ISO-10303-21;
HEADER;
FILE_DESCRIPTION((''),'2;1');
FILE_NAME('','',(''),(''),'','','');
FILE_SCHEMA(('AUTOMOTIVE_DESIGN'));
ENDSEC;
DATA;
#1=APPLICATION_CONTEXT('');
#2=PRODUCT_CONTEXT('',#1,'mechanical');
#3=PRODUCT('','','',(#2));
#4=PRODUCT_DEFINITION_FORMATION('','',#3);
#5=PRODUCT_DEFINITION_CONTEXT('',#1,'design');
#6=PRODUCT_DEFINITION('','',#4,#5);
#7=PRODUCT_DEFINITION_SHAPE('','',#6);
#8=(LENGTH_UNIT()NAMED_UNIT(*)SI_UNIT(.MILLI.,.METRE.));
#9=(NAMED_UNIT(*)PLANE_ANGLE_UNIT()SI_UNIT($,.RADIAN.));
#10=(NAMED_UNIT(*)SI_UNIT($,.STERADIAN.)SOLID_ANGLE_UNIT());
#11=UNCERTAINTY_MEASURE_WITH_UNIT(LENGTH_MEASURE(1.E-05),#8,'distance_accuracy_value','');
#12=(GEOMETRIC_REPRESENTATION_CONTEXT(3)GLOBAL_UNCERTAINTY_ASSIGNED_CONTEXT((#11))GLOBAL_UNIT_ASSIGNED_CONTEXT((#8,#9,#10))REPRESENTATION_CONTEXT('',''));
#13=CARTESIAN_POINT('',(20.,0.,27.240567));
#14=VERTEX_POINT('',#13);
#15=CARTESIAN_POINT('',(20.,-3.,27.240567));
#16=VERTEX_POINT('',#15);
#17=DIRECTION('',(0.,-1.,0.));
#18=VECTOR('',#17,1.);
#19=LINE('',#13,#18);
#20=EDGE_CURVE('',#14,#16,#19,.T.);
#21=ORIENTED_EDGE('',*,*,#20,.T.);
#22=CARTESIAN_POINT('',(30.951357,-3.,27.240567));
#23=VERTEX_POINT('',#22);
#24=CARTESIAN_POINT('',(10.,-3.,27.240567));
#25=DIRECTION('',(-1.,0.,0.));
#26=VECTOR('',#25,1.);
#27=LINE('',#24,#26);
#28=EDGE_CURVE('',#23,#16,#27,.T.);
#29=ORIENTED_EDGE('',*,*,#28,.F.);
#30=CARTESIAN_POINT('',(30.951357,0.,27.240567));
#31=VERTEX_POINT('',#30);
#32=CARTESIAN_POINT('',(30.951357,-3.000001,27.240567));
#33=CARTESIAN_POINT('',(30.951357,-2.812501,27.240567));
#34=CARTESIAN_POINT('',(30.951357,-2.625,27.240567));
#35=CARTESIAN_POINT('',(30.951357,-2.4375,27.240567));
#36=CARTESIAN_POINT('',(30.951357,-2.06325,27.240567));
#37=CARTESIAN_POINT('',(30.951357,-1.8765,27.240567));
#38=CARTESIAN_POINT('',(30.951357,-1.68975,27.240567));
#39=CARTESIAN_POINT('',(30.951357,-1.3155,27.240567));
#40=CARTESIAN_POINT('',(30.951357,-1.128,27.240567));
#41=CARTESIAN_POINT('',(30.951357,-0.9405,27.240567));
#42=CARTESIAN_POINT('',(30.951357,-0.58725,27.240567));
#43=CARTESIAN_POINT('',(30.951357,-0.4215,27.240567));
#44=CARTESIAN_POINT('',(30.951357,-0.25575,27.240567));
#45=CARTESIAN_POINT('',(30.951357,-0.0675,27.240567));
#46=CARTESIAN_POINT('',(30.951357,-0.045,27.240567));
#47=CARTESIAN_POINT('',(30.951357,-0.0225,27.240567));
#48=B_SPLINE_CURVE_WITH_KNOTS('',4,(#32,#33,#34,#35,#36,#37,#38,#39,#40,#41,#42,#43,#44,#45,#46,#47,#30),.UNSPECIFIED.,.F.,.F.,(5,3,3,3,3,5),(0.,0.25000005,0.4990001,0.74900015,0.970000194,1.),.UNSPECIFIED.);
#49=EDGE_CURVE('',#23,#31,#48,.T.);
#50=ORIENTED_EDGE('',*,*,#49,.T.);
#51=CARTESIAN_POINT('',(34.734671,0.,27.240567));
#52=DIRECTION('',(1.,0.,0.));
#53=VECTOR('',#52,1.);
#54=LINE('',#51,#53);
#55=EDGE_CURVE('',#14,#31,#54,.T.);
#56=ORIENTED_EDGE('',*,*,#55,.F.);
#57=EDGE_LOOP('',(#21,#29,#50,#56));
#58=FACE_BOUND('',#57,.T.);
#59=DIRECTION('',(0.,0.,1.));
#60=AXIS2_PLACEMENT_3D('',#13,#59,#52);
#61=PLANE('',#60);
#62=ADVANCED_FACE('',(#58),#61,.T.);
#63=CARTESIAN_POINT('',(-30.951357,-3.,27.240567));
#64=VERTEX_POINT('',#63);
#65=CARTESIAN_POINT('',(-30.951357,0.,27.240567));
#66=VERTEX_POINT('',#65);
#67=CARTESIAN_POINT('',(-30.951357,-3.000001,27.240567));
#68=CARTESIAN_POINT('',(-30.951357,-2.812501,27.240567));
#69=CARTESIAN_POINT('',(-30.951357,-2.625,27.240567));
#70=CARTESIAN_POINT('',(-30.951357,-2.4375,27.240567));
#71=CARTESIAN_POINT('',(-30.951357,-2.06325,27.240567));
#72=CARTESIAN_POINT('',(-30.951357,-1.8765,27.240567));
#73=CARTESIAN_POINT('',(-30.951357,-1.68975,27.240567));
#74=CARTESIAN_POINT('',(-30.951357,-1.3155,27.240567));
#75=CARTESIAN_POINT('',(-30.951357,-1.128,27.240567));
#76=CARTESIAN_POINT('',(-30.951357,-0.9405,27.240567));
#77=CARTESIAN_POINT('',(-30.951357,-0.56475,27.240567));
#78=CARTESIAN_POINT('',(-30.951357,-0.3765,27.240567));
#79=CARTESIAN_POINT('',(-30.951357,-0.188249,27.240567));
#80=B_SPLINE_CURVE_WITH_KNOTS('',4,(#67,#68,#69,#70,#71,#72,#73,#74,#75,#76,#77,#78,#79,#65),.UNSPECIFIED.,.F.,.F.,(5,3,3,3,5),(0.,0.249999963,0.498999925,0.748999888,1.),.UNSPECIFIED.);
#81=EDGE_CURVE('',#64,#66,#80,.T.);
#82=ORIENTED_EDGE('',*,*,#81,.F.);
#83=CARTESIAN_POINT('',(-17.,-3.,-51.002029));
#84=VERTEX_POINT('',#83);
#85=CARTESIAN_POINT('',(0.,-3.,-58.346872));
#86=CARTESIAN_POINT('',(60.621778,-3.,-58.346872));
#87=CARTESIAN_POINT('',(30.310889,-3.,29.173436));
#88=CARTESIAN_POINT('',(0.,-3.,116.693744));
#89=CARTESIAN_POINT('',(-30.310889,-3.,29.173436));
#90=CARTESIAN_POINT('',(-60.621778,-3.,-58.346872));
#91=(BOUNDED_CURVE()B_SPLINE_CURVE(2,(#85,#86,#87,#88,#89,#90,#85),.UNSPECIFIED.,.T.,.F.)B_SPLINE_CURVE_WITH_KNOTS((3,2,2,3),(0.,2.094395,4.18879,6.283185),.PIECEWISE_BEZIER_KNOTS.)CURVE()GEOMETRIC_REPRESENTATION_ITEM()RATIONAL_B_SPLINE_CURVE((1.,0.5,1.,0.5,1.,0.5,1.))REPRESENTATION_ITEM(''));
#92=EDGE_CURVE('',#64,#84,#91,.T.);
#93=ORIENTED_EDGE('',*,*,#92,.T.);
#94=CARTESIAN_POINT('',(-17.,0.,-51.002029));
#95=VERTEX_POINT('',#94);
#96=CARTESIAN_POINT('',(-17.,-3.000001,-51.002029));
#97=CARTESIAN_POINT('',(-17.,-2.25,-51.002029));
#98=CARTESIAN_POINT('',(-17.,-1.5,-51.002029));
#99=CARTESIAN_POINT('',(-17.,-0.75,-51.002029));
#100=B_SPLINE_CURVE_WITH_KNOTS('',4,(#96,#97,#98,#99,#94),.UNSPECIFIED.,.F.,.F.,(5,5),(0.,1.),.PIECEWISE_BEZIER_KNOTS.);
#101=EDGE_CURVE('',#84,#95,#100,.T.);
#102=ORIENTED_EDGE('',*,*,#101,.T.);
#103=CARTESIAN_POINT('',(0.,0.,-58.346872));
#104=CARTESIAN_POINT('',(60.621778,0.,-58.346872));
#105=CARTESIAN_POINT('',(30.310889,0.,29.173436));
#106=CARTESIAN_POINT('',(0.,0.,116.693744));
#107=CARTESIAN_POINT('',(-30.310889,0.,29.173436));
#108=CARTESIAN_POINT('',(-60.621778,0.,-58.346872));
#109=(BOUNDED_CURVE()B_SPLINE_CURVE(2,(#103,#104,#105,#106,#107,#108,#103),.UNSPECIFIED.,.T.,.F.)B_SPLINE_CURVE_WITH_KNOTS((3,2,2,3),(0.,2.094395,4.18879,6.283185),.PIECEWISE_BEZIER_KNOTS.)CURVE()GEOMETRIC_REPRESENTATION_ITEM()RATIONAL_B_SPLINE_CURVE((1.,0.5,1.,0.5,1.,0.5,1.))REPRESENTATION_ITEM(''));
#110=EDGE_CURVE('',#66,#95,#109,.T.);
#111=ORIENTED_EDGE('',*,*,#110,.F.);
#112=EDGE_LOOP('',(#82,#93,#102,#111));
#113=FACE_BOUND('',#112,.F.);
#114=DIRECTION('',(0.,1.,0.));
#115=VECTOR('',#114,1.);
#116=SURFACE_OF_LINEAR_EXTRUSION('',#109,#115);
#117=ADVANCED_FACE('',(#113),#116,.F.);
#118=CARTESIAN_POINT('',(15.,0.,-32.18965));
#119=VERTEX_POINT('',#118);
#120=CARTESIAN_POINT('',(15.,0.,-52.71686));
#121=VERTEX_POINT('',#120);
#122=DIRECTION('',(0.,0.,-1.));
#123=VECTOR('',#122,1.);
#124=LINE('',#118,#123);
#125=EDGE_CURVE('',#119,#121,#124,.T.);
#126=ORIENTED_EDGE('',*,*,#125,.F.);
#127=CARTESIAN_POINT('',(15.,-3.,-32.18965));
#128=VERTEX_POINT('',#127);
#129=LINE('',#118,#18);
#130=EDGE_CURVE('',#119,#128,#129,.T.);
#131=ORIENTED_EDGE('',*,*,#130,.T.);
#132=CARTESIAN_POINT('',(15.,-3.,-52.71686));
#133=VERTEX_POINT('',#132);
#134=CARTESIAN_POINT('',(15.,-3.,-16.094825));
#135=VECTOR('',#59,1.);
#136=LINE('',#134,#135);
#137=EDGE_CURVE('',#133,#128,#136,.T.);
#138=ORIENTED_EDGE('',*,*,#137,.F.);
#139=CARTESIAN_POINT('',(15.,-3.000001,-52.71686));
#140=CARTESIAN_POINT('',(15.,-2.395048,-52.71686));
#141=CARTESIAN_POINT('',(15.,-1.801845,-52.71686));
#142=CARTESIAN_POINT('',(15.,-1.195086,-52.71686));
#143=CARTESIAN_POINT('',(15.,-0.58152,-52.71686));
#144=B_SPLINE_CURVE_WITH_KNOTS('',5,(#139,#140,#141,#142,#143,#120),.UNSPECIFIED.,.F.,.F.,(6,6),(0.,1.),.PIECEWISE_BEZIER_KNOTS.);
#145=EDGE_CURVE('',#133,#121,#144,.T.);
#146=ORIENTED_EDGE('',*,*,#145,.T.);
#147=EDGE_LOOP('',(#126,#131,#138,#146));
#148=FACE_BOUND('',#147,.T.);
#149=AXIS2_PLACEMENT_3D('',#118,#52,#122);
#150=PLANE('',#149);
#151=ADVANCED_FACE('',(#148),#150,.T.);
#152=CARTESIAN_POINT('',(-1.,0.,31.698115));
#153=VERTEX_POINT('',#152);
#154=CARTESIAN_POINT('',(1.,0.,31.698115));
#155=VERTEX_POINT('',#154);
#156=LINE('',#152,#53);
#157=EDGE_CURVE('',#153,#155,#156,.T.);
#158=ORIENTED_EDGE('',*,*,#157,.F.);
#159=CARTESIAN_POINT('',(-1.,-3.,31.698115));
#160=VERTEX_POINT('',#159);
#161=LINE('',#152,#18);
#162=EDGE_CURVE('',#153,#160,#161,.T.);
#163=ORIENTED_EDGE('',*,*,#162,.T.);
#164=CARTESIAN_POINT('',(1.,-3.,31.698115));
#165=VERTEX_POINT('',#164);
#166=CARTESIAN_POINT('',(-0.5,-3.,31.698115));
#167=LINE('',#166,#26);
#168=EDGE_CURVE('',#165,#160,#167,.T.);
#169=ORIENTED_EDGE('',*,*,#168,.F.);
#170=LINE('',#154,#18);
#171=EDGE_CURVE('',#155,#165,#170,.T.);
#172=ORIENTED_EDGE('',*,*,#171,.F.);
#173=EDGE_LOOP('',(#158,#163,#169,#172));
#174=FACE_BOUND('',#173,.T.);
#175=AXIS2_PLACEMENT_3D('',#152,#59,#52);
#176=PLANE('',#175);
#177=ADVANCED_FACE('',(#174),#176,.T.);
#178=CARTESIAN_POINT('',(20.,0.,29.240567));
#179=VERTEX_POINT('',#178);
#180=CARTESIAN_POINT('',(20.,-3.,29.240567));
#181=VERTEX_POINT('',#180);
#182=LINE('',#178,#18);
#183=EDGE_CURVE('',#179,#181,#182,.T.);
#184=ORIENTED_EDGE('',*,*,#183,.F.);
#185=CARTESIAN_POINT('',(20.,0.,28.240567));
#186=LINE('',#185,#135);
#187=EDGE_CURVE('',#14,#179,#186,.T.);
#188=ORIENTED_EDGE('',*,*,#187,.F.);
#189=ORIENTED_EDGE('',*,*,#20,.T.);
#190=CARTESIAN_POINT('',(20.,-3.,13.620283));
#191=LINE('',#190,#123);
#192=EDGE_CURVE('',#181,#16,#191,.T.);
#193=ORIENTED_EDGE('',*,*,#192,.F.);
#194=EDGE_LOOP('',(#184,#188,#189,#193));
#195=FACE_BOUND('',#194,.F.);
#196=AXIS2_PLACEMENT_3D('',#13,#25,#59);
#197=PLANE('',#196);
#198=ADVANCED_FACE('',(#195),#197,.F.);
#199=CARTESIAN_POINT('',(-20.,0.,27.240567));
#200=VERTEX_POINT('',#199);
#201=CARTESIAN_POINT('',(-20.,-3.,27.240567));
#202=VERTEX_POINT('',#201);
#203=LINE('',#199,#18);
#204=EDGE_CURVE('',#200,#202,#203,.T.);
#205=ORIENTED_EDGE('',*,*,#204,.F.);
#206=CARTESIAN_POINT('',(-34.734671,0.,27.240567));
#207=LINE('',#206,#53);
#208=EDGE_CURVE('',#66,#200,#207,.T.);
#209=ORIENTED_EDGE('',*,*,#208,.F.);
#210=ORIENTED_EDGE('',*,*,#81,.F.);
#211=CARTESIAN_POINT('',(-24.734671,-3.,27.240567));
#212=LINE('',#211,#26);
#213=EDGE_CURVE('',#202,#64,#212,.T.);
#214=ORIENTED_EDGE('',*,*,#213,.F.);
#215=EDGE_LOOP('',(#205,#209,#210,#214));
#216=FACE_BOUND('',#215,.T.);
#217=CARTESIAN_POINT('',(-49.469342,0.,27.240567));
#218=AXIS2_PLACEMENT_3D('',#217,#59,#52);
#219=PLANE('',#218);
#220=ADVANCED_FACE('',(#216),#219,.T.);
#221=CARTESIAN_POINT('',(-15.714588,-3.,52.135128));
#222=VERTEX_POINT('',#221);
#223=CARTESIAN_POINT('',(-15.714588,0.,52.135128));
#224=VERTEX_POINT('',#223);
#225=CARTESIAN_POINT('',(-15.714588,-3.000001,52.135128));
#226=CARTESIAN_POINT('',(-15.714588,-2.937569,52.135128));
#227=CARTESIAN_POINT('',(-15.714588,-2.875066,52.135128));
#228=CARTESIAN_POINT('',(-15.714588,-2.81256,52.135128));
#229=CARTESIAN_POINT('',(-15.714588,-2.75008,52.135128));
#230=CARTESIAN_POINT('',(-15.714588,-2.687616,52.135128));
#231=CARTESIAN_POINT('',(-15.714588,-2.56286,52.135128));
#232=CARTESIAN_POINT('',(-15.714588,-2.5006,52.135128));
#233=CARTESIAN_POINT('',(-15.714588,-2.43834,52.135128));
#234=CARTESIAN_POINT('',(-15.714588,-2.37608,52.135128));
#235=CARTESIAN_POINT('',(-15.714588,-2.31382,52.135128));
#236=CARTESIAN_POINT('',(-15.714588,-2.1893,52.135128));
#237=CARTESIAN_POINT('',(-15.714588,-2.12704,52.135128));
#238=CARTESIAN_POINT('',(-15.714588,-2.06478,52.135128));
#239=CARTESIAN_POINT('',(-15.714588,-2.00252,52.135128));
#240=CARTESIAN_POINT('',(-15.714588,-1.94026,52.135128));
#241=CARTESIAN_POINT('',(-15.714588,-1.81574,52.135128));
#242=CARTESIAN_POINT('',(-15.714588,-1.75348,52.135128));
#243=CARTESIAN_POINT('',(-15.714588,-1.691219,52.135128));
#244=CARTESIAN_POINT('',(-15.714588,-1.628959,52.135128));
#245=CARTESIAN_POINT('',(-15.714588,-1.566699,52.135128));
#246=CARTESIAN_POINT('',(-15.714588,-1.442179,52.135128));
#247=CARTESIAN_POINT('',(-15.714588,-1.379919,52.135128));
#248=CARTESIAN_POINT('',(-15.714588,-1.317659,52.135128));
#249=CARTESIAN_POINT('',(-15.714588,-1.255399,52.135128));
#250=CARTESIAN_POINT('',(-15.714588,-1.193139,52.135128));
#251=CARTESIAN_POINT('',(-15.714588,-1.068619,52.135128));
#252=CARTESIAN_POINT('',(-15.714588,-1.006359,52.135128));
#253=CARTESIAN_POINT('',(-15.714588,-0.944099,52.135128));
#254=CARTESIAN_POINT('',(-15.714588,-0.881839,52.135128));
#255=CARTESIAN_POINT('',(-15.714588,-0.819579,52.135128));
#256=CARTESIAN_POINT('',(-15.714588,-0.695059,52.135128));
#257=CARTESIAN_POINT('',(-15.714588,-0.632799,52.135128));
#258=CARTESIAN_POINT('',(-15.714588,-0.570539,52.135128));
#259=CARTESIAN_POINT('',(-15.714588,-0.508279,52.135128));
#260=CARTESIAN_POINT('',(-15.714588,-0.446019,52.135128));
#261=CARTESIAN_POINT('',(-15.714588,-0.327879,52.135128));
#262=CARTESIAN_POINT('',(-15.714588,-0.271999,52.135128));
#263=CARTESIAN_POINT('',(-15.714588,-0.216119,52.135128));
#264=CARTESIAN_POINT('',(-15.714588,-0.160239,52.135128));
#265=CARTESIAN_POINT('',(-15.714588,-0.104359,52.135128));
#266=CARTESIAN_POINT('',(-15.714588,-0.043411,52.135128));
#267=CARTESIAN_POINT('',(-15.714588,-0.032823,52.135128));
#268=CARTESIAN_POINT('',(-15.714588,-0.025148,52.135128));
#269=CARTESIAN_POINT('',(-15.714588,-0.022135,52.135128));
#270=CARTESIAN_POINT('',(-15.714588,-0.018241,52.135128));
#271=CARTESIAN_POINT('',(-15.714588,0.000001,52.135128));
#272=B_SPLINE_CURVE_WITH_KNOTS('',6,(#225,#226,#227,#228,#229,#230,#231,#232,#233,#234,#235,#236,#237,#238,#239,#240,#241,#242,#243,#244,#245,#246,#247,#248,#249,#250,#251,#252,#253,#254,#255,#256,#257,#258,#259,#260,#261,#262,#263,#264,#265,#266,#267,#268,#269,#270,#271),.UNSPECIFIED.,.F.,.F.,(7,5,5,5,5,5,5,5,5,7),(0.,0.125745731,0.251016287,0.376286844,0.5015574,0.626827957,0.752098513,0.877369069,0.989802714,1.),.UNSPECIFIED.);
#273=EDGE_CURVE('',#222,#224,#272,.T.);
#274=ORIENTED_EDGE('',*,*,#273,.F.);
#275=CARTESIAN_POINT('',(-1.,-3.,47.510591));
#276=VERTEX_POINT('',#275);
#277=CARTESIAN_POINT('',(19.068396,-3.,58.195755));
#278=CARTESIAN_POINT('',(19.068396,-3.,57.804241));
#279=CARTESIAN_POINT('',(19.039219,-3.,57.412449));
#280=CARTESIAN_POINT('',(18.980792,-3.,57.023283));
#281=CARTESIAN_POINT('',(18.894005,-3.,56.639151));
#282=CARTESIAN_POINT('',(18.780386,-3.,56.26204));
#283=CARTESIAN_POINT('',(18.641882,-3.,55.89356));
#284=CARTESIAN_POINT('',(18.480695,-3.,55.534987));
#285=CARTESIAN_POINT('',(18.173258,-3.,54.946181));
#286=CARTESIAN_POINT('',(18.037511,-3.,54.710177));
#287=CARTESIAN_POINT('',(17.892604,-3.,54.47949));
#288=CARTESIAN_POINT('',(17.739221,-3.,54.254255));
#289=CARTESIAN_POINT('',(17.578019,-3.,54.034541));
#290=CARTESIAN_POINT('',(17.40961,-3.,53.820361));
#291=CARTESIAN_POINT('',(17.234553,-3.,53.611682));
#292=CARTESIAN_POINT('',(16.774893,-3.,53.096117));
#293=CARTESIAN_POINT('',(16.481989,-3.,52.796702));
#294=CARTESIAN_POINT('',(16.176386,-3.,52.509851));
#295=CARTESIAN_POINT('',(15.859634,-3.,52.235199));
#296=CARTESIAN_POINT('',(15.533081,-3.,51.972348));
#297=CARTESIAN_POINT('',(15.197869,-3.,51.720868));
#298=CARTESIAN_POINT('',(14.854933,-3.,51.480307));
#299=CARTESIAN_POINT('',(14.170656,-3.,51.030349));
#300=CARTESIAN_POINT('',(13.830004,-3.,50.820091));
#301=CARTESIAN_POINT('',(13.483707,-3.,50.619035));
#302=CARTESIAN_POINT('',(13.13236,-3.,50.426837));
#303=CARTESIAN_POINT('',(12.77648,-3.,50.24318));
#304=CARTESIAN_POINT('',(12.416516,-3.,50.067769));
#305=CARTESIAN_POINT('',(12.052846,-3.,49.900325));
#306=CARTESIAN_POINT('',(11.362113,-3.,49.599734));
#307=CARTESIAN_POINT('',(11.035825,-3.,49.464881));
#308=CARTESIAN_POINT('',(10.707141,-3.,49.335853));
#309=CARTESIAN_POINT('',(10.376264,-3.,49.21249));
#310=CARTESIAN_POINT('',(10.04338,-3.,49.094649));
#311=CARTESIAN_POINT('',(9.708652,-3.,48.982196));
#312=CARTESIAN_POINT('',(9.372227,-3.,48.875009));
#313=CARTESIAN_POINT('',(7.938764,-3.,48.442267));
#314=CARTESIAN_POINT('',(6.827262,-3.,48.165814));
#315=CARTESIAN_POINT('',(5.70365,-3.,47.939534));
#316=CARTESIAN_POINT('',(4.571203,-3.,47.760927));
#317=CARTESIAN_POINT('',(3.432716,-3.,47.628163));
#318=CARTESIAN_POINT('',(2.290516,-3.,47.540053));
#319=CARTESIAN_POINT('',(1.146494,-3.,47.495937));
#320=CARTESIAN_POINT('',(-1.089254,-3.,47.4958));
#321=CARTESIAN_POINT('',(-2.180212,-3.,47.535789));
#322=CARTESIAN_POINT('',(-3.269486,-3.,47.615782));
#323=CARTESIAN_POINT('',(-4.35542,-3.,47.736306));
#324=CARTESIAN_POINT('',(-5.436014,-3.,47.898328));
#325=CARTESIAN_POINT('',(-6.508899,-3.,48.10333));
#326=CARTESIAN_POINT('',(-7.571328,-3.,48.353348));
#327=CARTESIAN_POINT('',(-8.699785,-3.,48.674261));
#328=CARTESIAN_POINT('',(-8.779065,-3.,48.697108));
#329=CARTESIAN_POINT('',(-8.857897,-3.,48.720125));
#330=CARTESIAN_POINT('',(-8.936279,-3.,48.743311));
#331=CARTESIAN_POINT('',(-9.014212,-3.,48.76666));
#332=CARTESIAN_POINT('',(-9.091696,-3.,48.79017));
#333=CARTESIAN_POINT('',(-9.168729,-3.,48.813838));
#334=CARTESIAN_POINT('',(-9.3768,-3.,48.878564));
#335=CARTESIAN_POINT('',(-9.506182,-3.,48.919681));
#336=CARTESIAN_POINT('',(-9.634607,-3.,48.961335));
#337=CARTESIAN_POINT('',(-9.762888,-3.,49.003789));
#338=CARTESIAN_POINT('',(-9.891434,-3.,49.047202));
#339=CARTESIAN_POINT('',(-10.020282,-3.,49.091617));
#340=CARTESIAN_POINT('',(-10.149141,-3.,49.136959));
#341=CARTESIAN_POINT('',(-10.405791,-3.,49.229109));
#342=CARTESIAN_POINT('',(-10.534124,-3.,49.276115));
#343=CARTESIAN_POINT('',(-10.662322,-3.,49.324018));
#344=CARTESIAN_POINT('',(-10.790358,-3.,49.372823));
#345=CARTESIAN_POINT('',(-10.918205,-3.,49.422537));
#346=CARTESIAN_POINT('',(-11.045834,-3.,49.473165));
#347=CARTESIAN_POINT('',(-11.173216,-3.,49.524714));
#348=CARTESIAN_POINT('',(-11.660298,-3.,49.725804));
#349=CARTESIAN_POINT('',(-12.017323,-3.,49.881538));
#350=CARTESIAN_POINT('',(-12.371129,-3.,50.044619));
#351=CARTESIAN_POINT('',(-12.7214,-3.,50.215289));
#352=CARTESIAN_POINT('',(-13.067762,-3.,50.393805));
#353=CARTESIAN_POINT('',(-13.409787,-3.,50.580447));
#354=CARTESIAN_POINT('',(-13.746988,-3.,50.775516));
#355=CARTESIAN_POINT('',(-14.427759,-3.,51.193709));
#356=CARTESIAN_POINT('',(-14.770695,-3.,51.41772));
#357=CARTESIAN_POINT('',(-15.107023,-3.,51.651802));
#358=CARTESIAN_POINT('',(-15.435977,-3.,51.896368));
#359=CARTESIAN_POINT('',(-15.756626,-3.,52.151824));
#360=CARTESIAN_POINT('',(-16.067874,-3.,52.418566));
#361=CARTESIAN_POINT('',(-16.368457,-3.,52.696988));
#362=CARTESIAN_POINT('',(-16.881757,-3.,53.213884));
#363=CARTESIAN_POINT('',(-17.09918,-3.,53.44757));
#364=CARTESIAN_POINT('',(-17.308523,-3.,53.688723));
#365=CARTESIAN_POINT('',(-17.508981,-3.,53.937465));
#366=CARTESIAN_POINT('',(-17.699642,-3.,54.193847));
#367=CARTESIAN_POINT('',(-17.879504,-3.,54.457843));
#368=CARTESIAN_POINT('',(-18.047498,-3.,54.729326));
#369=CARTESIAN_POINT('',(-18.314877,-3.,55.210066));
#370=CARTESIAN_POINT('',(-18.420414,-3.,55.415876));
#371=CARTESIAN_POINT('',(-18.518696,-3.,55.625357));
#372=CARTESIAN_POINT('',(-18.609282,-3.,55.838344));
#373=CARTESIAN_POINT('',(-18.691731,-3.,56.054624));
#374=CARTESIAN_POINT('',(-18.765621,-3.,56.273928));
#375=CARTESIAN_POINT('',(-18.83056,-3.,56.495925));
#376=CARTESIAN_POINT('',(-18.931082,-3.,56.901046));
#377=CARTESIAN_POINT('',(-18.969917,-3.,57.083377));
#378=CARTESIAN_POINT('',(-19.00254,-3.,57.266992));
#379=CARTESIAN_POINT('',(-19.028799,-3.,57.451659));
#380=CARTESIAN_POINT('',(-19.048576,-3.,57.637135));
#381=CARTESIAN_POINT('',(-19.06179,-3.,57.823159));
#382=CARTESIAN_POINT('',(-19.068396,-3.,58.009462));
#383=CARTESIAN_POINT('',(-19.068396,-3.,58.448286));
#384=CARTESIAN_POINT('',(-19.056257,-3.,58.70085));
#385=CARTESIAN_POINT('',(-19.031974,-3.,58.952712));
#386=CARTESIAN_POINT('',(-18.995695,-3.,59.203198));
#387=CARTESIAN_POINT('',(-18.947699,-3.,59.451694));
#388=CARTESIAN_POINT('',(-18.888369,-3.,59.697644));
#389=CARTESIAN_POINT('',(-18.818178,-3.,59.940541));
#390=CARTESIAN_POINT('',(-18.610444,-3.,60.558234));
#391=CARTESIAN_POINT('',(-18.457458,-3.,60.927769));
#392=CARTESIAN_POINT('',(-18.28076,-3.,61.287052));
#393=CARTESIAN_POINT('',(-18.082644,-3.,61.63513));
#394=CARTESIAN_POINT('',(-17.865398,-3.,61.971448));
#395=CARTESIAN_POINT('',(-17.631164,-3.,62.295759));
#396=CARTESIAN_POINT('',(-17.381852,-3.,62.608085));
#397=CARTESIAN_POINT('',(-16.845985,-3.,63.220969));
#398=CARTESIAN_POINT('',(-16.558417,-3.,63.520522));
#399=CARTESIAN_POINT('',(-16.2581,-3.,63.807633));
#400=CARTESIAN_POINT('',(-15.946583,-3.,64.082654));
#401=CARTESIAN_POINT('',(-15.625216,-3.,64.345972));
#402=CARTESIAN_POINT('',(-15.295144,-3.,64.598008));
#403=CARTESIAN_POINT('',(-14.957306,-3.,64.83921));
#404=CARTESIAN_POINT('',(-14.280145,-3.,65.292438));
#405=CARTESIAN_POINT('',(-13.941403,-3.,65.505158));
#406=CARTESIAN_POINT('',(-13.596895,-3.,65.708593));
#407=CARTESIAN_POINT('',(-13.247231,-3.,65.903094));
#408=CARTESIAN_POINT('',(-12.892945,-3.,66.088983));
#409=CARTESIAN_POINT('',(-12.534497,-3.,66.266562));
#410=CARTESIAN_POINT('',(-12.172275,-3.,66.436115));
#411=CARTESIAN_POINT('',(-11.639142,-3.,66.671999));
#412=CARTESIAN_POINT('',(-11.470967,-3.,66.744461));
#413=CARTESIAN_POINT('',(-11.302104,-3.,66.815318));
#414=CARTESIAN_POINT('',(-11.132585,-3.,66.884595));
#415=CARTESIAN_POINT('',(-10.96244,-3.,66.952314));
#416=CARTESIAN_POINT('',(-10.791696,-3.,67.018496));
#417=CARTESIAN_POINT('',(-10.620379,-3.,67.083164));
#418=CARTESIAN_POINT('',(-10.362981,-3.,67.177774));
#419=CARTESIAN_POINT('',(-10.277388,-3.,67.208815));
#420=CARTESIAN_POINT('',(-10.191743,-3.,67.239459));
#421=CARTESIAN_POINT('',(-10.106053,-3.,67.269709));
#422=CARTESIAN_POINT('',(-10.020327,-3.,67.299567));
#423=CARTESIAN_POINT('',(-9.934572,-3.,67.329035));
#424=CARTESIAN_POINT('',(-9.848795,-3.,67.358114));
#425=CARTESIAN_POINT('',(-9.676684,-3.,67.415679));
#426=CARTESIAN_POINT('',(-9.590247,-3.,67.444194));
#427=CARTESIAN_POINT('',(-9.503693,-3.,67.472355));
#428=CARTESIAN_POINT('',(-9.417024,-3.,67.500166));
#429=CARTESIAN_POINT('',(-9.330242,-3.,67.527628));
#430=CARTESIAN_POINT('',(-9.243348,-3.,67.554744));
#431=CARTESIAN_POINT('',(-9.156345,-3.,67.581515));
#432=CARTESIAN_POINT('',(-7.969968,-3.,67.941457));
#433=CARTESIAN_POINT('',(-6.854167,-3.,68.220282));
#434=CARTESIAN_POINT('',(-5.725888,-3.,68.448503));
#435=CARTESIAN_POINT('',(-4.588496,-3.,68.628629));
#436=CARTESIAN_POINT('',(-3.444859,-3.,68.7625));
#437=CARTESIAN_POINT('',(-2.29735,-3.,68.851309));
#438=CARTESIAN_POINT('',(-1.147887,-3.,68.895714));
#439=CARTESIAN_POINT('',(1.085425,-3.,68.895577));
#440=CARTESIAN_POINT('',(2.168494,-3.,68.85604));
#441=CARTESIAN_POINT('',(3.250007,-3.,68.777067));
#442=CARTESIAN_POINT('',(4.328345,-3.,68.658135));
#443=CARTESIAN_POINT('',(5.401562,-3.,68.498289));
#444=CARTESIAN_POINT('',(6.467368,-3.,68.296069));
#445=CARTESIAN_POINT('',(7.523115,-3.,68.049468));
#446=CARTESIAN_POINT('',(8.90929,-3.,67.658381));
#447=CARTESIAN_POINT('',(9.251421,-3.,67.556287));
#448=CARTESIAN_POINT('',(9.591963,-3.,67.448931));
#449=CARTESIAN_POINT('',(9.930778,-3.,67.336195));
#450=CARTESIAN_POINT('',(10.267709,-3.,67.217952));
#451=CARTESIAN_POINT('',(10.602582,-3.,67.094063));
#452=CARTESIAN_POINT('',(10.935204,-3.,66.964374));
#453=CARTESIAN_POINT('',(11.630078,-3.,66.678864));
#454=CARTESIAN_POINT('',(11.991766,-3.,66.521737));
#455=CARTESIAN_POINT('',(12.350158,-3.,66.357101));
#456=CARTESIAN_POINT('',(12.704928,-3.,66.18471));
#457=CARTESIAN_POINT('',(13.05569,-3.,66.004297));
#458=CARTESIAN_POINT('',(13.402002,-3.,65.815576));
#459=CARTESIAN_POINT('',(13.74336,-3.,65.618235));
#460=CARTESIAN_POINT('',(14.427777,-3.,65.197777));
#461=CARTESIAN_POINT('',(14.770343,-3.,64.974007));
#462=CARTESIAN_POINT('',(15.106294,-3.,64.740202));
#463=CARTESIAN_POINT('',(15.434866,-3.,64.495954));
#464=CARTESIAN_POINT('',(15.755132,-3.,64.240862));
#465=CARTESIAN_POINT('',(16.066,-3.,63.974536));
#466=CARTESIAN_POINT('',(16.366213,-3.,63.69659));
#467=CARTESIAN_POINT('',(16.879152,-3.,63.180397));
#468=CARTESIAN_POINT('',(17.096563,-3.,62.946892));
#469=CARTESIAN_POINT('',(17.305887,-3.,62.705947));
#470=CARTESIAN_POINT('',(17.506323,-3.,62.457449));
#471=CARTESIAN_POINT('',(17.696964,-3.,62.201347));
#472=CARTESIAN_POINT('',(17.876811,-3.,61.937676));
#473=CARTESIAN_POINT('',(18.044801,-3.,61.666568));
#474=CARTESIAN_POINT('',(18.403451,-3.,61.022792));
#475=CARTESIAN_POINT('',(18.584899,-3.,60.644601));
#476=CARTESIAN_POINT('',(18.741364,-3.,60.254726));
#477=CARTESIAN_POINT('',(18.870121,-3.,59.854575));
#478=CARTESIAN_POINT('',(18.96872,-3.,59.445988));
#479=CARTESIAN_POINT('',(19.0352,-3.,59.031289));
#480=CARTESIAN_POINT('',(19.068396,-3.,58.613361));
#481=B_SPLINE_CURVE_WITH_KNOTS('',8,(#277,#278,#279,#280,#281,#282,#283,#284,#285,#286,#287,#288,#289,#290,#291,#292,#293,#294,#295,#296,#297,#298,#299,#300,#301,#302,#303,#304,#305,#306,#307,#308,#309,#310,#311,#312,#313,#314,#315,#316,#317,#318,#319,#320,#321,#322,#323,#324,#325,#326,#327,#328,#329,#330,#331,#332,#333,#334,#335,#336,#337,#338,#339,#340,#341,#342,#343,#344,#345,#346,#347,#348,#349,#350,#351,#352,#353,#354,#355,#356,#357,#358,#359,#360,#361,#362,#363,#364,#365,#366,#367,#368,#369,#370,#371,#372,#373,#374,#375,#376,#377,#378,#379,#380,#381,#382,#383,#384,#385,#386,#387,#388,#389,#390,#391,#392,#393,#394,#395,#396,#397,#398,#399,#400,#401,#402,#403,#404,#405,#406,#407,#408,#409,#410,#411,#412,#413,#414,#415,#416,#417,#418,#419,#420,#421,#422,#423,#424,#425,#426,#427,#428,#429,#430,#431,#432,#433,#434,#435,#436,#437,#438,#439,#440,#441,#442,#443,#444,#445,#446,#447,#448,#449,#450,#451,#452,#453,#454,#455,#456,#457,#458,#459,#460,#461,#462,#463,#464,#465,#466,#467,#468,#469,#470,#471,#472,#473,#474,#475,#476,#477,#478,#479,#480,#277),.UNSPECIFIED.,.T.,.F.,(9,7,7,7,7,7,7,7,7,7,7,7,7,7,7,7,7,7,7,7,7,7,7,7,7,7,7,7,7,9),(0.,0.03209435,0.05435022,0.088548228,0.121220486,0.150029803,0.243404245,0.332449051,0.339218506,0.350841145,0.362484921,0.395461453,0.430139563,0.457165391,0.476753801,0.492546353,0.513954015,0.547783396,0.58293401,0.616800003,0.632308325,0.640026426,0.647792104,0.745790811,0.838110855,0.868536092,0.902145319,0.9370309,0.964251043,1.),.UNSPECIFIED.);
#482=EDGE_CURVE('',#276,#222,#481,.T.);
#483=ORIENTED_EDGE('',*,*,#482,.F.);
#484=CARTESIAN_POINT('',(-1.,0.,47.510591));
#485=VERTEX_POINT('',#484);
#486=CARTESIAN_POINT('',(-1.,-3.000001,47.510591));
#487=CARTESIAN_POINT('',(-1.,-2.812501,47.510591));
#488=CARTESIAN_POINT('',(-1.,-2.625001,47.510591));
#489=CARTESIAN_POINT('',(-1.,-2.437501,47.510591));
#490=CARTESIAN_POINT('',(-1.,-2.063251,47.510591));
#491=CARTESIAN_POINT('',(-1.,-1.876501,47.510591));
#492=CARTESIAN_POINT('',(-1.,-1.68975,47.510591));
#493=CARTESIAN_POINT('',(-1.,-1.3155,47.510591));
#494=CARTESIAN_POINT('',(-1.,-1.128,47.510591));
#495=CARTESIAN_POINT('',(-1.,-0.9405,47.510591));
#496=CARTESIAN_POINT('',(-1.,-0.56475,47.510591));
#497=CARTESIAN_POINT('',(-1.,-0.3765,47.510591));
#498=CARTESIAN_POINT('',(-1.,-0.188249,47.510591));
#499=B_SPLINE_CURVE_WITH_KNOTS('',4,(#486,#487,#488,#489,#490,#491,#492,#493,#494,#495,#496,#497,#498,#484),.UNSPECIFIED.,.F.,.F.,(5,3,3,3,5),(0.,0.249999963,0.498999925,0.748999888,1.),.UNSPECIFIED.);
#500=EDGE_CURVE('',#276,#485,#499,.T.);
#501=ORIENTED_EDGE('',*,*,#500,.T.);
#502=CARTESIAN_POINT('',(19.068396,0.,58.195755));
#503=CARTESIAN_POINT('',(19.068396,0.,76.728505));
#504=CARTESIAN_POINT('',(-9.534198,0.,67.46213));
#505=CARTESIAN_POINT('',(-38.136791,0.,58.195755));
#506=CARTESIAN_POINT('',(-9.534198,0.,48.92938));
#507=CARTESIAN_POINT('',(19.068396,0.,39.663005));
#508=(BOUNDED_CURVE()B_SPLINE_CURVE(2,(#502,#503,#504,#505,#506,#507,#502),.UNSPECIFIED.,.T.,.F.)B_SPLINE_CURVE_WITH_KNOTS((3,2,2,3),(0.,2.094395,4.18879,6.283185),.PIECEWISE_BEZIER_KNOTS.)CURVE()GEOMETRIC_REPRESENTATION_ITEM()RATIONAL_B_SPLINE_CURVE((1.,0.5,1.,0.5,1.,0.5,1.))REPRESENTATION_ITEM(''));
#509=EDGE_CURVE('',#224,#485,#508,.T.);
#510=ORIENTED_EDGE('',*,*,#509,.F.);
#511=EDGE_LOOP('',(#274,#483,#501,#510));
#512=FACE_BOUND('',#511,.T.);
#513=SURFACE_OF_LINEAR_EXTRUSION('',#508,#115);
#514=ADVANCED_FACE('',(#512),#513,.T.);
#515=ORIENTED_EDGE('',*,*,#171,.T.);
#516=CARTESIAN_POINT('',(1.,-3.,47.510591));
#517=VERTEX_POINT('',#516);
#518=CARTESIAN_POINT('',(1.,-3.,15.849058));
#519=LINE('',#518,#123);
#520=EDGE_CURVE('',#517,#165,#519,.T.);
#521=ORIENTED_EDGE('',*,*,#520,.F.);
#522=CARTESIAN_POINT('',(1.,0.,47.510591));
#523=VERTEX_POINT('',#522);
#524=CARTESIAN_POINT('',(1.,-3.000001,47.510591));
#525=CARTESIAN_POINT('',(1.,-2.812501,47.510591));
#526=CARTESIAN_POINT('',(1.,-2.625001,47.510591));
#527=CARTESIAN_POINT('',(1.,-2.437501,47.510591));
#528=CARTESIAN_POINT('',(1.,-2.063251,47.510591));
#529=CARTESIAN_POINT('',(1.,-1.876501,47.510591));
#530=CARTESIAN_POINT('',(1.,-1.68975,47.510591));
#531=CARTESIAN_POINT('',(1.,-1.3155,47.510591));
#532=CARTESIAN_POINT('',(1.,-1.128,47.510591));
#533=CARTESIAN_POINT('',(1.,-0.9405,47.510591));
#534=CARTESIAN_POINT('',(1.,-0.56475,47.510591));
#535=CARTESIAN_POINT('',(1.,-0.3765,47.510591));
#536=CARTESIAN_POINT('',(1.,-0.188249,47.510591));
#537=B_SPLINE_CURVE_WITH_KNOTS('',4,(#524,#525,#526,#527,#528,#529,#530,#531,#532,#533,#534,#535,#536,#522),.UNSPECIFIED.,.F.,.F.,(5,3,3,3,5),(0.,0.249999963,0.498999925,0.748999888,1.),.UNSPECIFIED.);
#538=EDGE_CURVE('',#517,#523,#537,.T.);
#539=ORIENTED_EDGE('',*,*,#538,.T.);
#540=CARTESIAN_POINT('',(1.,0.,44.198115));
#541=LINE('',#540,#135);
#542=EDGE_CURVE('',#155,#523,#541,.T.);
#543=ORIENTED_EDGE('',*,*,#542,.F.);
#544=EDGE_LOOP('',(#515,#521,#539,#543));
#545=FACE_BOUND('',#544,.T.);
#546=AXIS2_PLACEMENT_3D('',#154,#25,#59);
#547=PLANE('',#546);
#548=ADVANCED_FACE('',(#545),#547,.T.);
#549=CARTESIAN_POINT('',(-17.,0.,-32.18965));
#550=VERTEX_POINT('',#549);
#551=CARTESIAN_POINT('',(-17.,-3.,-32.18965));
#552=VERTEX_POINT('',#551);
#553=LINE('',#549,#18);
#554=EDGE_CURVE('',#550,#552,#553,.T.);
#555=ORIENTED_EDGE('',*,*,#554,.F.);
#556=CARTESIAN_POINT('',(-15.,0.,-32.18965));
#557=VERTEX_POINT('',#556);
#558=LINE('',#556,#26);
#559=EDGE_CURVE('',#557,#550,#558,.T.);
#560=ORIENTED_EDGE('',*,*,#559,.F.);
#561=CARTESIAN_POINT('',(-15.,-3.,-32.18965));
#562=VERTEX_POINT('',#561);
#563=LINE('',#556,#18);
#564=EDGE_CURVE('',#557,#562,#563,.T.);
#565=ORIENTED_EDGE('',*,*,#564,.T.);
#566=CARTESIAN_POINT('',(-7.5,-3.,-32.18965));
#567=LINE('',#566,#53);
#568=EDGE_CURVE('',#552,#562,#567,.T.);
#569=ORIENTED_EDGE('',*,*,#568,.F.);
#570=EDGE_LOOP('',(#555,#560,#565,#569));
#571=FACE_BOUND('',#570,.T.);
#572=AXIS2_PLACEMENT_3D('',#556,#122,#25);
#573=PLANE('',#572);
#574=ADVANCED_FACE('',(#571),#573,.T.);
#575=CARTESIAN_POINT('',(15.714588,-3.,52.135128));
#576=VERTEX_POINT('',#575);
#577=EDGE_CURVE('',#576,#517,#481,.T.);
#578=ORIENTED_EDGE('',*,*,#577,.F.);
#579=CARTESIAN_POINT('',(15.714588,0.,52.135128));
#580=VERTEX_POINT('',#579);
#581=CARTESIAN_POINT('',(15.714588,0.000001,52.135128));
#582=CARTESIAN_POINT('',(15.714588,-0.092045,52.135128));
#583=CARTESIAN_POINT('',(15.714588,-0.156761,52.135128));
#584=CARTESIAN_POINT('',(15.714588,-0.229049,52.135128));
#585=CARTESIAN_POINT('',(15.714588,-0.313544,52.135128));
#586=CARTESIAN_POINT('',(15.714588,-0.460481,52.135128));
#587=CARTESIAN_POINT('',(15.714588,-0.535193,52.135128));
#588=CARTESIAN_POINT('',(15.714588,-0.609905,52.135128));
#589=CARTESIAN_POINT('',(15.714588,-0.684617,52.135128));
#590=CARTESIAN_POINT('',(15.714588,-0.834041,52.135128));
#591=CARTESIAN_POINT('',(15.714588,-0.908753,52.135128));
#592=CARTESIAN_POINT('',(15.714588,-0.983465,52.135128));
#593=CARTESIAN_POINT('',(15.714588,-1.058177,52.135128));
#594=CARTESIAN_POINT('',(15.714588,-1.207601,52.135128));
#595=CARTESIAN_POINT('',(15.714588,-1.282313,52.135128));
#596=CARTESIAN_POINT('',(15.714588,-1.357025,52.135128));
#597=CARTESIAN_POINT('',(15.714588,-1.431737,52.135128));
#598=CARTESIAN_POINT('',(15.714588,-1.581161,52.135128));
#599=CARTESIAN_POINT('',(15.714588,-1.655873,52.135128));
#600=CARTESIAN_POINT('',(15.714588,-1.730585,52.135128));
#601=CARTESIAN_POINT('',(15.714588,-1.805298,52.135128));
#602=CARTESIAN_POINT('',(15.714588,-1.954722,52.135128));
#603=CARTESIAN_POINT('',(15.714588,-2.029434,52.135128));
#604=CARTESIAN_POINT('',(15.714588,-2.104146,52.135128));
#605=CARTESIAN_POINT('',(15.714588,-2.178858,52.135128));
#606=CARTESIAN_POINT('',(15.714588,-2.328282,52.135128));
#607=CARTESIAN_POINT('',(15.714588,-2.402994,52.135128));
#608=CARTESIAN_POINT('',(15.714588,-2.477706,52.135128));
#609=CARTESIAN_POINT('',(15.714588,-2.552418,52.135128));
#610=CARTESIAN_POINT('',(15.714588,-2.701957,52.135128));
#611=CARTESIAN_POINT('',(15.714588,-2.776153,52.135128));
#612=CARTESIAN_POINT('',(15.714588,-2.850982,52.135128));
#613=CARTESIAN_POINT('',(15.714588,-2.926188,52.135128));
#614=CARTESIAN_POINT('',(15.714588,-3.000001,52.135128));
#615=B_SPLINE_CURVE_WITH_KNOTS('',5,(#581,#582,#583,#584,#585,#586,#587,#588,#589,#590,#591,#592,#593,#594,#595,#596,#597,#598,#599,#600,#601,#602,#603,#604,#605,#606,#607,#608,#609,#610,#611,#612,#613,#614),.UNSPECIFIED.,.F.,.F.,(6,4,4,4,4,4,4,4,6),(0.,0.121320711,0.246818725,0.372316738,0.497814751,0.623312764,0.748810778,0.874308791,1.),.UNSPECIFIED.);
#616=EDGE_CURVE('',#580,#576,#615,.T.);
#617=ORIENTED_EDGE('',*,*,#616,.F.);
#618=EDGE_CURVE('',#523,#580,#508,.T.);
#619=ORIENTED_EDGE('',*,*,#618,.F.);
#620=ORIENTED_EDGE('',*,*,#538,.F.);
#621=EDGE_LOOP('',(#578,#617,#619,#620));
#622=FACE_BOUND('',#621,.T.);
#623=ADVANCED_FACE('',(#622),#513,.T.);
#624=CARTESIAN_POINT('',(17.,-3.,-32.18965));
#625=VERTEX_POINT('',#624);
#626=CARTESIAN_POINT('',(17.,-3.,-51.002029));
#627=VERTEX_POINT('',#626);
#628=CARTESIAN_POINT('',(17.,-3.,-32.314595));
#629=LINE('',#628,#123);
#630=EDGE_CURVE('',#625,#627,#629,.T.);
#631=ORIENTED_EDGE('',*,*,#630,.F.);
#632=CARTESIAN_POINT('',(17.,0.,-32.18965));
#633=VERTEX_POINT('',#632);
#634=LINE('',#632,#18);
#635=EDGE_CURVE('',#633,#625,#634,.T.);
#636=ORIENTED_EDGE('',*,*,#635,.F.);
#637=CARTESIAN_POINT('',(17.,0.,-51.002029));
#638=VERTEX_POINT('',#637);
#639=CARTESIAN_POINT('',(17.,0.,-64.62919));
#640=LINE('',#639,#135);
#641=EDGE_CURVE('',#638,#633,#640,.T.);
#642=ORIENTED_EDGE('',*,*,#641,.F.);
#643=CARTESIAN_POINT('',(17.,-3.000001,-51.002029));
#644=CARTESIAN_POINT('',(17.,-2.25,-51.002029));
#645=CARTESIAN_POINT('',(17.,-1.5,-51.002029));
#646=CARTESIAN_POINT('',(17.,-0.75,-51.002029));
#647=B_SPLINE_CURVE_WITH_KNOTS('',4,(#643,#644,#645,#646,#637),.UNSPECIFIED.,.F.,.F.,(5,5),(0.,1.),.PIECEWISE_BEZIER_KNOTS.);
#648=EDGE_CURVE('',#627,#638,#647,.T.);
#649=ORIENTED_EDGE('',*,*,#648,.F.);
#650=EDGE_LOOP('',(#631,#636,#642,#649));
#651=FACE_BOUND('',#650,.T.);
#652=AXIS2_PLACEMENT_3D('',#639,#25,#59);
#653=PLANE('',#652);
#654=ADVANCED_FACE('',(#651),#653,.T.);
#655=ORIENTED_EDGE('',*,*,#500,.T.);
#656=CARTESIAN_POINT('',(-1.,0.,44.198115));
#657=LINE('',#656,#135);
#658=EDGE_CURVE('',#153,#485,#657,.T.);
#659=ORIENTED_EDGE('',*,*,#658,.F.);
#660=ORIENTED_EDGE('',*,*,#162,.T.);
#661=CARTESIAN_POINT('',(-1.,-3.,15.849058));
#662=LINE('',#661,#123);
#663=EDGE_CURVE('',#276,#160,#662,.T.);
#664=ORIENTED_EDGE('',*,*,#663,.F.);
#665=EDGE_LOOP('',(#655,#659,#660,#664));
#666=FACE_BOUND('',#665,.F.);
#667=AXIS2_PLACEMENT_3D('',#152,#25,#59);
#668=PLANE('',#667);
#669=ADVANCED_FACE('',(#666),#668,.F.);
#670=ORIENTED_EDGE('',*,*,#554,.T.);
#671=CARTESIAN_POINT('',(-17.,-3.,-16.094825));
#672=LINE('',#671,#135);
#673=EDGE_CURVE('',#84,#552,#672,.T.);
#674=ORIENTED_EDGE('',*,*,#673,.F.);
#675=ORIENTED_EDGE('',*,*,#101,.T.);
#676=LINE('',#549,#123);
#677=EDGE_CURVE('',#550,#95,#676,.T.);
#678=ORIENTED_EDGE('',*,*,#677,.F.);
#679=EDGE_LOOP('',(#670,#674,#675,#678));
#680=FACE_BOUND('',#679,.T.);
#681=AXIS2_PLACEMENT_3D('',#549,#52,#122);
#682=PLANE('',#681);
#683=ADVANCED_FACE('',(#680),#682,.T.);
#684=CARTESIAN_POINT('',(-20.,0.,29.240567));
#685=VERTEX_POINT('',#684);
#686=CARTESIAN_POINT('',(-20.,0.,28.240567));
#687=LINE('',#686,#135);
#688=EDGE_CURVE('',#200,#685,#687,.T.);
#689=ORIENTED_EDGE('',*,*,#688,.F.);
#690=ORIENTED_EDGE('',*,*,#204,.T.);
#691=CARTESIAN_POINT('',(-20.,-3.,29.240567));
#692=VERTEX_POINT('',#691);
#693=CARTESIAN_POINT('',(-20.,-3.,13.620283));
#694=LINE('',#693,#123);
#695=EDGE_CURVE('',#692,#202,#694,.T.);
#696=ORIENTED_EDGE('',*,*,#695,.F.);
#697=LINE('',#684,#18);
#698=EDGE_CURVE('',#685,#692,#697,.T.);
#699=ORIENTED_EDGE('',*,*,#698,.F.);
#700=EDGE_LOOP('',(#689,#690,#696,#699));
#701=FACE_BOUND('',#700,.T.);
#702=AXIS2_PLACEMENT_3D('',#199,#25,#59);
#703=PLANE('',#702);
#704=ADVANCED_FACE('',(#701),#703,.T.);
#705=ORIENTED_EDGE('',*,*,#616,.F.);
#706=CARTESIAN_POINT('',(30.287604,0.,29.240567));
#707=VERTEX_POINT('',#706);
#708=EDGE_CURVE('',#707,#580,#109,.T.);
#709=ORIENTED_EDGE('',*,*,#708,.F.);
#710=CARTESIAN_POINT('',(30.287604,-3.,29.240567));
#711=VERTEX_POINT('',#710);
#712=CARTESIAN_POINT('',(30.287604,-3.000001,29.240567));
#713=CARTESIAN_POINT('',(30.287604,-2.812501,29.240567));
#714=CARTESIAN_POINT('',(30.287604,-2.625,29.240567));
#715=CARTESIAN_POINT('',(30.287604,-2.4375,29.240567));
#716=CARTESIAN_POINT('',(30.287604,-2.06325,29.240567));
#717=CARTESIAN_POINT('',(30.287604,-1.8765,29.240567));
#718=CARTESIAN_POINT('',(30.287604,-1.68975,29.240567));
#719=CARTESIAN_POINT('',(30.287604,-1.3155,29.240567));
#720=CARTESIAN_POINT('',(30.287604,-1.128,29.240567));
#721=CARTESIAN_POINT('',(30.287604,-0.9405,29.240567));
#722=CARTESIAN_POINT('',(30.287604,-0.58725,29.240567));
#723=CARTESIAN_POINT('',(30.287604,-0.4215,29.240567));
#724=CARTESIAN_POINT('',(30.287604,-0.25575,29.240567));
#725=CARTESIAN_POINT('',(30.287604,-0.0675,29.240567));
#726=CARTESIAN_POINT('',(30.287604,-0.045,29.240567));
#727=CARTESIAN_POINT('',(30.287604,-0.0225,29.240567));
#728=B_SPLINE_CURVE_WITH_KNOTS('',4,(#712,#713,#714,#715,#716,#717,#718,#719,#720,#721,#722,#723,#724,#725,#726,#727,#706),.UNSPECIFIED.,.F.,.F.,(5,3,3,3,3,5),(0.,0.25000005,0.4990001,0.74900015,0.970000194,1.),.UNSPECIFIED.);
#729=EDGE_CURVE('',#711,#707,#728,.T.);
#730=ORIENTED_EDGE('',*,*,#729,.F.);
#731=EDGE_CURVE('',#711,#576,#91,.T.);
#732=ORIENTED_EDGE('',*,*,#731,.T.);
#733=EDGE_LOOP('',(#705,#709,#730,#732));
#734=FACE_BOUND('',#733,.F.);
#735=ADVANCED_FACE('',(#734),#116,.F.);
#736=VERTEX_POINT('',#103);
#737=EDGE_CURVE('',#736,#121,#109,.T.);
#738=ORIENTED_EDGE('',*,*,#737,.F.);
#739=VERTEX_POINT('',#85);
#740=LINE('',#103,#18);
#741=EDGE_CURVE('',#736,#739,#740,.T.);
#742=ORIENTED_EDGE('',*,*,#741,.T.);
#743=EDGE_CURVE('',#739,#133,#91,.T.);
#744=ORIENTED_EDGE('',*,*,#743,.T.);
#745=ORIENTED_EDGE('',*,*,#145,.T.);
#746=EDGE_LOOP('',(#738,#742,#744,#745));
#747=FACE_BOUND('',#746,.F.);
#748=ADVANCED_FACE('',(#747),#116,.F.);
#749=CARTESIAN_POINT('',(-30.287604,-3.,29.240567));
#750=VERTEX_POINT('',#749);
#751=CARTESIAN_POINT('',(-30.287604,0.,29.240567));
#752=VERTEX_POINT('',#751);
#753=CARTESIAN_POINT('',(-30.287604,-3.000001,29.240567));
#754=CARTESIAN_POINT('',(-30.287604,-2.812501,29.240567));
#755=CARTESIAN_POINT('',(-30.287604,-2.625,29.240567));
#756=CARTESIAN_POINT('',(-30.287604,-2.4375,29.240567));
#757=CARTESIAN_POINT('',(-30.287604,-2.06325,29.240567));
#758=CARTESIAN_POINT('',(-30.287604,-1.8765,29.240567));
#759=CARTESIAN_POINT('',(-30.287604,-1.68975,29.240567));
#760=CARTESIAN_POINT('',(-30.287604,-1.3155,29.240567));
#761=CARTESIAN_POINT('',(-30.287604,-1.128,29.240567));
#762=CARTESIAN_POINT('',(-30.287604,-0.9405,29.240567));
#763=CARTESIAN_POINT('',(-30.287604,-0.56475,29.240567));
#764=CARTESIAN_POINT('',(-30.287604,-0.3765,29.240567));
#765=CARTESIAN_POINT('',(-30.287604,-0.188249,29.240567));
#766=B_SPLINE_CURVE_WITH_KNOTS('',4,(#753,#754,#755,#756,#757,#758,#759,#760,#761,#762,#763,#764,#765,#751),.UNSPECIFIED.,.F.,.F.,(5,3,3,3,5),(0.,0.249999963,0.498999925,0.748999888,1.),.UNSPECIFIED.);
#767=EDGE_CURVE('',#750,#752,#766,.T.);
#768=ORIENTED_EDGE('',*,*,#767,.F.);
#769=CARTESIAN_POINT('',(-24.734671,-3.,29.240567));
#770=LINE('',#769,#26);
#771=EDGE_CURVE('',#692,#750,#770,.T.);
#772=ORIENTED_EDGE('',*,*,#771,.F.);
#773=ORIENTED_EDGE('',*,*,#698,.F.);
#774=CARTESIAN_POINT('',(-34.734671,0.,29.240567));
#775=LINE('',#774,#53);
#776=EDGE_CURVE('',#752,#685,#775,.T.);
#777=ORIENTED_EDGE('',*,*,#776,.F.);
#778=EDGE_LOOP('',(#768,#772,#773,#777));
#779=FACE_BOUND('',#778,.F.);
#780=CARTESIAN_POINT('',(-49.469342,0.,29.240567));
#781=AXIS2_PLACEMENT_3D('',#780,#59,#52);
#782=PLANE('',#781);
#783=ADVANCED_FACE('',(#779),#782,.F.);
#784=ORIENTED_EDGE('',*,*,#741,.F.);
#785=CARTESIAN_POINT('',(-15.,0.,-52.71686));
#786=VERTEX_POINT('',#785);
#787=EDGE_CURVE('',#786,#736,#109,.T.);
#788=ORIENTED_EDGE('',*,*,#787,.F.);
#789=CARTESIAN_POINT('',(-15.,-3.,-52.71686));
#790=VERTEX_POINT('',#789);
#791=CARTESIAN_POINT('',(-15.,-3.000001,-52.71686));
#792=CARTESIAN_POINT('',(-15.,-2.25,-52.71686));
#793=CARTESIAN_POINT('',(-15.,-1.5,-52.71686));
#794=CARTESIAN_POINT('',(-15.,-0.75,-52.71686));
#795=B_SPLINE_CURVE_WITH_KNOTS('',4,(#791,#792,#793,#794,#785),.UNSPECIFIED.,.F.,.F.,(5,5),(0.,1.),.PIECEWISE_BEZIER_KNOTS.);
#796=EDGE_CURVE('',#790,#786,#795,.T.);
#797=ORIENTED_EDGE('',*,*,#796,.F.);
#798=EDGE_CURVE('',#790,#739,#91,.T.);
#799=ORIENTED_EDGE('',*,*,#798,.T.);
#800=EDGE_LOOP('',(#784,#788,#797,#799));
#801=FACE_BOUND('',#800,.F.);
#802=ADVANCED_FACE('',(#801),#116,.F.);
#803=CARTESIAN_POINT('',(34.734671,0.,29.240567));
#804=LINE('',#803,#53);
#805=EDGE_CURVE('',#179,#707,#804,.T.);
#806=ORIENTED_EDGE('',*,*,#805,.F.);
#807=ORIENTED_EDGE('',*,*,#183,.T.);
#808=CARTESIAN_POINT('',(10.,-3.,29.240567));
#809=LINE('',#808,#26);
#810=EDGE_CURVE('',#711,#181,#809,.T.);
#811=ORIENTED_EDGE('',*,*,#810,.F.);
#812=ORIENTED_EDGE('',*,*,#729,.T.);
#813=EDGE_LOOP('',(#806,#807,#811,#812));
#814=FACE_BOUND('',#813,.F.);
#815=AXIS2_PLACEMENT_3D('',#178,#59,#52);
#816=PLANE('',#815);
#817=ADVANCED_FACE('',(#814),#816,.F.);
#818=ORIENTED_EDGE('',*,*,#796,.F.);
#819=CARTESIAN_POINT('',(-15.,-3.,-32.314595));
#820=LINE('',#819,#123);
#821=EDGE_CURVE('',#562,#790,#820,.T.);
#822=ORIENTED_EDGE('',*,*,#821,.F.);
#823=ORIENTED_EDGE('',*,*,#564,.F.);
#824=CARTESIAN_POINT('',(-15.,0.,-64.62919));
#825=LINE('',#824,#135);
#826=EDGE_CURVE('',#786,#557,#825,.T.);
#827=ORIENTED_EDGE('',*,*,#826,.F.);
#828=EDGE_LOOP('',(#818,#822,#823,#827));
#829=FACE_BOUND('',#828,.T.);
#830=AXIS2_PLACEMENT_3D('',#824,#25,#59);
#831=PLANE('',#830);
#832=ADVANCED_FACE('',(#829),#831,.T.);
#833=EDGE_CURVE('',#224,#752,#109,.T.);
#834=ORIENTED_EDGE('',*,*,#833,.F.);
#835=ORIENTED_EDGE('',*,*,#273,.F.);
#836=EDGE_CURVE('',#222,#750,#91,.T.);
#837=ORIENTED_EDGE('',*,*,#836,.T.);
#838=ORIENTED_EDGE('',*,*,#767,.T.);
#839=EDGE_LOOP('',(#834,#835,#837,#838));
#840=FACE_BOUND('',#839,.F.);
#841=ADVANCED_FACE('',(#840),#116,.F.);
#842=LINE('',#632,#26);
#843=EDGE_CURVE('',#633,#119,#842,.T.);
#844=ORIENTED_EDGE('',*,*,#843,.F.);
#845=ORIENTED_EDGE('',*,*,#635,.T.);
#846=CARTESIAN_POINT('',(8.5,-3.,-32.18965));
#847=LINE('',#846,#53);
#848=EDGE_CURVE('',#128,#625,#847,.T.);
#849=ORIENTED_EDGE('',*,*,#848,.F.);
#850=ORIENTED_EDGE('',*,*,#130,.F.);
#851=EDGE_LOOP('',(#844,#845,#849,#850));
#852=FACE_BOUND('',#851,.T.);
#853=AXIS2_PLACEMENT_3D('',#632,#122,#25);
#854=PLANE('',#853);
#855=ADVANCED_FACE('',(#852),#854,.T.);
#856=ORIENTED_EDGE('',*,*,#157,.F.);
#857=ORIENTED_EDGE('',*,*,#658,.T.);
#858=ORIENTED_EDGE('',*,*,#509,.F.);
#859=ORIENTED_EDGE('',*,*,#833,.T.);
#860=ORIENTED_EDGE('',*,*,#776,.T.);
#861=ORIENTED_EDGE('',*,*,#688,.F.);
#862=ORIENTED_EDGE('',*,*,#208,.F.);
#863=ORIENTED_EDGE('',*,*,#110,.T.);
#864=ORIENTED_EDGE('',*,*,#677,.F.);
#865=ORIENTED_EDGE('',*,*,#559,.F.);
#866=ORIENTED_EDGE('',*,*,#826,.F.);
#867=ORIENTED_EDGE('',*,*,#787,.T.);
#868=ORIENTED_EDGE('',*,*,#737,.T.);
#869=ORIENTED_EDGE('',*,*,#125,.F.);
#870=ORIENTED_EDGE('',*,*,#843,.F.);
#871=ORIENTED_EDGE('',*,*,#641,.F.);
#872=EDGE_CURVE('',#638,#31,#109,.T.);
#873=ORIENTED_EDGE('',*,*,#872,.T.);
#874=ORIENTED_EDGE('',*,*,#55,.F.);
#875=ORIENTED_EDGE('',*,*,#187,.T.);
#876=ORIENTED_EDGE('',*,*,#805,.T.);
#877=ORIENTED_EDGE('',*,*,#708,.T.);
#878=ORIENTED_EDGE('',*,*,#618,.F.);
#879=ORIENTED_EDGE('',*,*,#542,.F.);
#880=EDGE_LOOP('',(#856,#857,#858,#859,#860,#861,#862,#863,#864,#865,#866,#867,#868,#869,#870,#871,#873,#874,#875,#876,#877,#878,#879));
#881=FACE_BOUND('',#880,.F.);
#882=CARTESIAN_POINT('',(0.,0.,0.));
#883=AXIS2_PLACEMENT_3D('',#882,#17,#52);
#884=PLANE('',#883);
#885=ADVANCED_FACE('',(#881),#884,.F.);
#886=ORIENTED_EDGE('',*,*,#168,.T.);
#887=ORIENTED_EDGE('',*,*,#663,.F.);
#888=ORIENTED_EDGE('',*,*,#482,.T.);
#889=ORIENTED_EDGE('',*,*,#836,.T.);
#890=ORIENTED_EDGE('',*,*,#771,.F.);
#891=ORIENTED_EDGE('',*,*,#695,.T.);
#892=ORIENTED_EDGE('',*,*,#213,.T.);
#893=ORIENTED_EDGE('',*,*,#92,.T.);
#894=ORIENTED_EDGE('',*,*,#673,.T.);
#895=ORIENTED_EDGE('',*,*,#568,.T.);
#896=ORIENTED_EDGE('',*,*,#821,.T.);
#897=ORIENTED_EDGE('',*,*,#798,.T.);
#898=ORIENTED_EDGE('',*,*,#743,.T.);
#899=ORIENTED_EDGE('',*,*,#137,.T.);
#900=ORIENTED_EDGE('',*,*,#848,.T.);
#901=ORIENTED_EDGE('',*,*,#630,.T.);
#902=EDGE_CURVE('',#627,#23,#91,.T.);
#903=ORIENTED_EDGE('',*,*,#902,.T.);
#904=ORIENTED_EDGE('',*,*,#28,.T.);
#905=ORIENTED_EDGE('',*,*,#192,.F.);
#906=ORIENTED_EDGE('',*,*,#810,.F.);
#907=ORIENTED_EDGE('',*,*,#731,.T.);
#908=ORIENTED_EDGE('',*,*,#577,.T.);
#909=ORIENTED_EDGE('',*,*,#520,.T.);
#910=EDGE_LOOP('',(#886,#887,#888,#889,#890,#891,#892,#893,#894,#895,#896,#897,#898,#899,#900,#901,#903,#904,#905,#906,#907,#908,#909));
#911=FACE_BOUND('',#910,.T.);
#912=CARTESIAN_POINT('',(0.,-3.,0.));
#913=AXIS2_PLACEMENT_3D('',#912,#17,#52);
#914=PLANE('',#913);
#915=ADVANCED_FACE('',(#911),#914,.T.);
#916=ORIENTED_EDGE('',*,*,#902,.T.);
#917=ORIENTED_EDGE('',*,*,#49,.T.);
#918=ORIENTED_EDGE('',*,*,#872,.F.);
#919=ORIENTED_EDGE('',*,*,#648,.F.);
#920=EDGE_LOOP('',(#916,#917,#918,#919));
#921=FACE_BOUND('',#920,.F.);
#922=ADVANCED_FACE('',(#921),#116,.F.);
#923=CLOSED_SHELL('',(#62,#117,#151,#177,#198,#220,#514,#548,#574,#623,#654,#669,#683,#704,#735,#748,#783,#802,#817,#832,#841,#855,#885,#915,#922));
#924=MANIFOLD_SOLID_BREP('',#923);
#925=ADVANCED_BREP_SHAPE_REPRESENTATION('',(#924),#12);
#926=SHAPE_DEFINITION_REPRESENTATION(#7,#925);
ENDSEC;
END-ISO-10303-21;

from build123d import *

# Parameters (mm, degrees)
F1_DEPTH = 3
F2_W     = 29.469342
F2_H     = 2
F3_DEPTH = 25
F5_DEPTH = 10
F7_DEPTH = 25
F8_W     = 1
F8_H     = 25
F9_DEPTH = 25


with BuildPart() as f1:
    # F0 (on Front) → F1 (new body)
    with BuildSketch(Plane.XZ):
        with BuildLine():
            add(Edge.make_bspline(
                [(0, -58.346872), (60.621778, -58.346872), (30.310889, 29.173436), (0, 116.693744), (-30.310889, 29.173436), (-60.621778, -58.346872), (0, -58.346872)],
                knots=[0, 0, 0, 2.094395, 2.094395, 4.18879, 4.18879, 6.283185, 6.283185, 6.283185], degree=2, weights=[1, 0.5, 1, 0.5, 1, 0.5, 1]))
        make_face()
    extrude(amount=F1_DEPTH)

    # F2 (on Front) → F3 (cut)
    with BuildSketch(Plane.XZ):
        with Locations((-34.734671, 28.240567)):
            Rectangle(F2_W, F2_H)
        with Locations((34.734671, 28.240567)):
            Rectangle(F2_W, F2_H)
    extrude(amount=F3_DEPTH, mode=Mode.SUBTRACT)

    # F4 (on Front) → F5 (cut)
    with BuildSketch(Plane.XZ):
        Polygon((-15, -32.18965), (-17, -32.18965), (-17, -51.198471), (-17, -64.541914), (-15, -64.62919), (-15, -53.12467), align=None)
        Polygon((17, -51.198471), (17, -32.18965), (15, -32.18965), (15, -53.12467), (15, -64.62919), (17, -64.62919), align=None)
    extrude(amount=F5_DEPTH, mode=Mode.SUBTRACT)

    # F6 (on Front) → F7 (cut)
    with BuildSketch(Plane.XZ):
        with BuildLine():
            add(Edge.make_bspline(
                [(19.068396, 58.195755), (19.068396, 76.728505), (-9.534198, 67.46213), (-38.136791, 58.195755), (-9.534198, 48.92938), (19.068396, 39.663005), (19.068396, 58.195755)],
                knots=[0, 0, 0, 2.094395, 2.094395, 4.18879, 4.18879, 6.283185, 6.283185, 6.283185], degree=2, weights=[1, 0.5, 1, 0.5, 1, 0.5, 1]))
        make_face()
    extrude(amount=F7_DEPTH, mode=Mode.SUBTRACT)

    # F8 (on Front) → F9 (cut)
    with BuildSketch(Plane.XZ):
        with Locations((-0.5, 44.198115)):
            Rectangle(F8_W, F8_H)
        with Locations((0.5, 44.198115)):
            Rectangle(F8_W, F8_H)
    extrude(amount=F9_DEPTH, mode=Mode.SUBTRACT)


solid = f1.part
